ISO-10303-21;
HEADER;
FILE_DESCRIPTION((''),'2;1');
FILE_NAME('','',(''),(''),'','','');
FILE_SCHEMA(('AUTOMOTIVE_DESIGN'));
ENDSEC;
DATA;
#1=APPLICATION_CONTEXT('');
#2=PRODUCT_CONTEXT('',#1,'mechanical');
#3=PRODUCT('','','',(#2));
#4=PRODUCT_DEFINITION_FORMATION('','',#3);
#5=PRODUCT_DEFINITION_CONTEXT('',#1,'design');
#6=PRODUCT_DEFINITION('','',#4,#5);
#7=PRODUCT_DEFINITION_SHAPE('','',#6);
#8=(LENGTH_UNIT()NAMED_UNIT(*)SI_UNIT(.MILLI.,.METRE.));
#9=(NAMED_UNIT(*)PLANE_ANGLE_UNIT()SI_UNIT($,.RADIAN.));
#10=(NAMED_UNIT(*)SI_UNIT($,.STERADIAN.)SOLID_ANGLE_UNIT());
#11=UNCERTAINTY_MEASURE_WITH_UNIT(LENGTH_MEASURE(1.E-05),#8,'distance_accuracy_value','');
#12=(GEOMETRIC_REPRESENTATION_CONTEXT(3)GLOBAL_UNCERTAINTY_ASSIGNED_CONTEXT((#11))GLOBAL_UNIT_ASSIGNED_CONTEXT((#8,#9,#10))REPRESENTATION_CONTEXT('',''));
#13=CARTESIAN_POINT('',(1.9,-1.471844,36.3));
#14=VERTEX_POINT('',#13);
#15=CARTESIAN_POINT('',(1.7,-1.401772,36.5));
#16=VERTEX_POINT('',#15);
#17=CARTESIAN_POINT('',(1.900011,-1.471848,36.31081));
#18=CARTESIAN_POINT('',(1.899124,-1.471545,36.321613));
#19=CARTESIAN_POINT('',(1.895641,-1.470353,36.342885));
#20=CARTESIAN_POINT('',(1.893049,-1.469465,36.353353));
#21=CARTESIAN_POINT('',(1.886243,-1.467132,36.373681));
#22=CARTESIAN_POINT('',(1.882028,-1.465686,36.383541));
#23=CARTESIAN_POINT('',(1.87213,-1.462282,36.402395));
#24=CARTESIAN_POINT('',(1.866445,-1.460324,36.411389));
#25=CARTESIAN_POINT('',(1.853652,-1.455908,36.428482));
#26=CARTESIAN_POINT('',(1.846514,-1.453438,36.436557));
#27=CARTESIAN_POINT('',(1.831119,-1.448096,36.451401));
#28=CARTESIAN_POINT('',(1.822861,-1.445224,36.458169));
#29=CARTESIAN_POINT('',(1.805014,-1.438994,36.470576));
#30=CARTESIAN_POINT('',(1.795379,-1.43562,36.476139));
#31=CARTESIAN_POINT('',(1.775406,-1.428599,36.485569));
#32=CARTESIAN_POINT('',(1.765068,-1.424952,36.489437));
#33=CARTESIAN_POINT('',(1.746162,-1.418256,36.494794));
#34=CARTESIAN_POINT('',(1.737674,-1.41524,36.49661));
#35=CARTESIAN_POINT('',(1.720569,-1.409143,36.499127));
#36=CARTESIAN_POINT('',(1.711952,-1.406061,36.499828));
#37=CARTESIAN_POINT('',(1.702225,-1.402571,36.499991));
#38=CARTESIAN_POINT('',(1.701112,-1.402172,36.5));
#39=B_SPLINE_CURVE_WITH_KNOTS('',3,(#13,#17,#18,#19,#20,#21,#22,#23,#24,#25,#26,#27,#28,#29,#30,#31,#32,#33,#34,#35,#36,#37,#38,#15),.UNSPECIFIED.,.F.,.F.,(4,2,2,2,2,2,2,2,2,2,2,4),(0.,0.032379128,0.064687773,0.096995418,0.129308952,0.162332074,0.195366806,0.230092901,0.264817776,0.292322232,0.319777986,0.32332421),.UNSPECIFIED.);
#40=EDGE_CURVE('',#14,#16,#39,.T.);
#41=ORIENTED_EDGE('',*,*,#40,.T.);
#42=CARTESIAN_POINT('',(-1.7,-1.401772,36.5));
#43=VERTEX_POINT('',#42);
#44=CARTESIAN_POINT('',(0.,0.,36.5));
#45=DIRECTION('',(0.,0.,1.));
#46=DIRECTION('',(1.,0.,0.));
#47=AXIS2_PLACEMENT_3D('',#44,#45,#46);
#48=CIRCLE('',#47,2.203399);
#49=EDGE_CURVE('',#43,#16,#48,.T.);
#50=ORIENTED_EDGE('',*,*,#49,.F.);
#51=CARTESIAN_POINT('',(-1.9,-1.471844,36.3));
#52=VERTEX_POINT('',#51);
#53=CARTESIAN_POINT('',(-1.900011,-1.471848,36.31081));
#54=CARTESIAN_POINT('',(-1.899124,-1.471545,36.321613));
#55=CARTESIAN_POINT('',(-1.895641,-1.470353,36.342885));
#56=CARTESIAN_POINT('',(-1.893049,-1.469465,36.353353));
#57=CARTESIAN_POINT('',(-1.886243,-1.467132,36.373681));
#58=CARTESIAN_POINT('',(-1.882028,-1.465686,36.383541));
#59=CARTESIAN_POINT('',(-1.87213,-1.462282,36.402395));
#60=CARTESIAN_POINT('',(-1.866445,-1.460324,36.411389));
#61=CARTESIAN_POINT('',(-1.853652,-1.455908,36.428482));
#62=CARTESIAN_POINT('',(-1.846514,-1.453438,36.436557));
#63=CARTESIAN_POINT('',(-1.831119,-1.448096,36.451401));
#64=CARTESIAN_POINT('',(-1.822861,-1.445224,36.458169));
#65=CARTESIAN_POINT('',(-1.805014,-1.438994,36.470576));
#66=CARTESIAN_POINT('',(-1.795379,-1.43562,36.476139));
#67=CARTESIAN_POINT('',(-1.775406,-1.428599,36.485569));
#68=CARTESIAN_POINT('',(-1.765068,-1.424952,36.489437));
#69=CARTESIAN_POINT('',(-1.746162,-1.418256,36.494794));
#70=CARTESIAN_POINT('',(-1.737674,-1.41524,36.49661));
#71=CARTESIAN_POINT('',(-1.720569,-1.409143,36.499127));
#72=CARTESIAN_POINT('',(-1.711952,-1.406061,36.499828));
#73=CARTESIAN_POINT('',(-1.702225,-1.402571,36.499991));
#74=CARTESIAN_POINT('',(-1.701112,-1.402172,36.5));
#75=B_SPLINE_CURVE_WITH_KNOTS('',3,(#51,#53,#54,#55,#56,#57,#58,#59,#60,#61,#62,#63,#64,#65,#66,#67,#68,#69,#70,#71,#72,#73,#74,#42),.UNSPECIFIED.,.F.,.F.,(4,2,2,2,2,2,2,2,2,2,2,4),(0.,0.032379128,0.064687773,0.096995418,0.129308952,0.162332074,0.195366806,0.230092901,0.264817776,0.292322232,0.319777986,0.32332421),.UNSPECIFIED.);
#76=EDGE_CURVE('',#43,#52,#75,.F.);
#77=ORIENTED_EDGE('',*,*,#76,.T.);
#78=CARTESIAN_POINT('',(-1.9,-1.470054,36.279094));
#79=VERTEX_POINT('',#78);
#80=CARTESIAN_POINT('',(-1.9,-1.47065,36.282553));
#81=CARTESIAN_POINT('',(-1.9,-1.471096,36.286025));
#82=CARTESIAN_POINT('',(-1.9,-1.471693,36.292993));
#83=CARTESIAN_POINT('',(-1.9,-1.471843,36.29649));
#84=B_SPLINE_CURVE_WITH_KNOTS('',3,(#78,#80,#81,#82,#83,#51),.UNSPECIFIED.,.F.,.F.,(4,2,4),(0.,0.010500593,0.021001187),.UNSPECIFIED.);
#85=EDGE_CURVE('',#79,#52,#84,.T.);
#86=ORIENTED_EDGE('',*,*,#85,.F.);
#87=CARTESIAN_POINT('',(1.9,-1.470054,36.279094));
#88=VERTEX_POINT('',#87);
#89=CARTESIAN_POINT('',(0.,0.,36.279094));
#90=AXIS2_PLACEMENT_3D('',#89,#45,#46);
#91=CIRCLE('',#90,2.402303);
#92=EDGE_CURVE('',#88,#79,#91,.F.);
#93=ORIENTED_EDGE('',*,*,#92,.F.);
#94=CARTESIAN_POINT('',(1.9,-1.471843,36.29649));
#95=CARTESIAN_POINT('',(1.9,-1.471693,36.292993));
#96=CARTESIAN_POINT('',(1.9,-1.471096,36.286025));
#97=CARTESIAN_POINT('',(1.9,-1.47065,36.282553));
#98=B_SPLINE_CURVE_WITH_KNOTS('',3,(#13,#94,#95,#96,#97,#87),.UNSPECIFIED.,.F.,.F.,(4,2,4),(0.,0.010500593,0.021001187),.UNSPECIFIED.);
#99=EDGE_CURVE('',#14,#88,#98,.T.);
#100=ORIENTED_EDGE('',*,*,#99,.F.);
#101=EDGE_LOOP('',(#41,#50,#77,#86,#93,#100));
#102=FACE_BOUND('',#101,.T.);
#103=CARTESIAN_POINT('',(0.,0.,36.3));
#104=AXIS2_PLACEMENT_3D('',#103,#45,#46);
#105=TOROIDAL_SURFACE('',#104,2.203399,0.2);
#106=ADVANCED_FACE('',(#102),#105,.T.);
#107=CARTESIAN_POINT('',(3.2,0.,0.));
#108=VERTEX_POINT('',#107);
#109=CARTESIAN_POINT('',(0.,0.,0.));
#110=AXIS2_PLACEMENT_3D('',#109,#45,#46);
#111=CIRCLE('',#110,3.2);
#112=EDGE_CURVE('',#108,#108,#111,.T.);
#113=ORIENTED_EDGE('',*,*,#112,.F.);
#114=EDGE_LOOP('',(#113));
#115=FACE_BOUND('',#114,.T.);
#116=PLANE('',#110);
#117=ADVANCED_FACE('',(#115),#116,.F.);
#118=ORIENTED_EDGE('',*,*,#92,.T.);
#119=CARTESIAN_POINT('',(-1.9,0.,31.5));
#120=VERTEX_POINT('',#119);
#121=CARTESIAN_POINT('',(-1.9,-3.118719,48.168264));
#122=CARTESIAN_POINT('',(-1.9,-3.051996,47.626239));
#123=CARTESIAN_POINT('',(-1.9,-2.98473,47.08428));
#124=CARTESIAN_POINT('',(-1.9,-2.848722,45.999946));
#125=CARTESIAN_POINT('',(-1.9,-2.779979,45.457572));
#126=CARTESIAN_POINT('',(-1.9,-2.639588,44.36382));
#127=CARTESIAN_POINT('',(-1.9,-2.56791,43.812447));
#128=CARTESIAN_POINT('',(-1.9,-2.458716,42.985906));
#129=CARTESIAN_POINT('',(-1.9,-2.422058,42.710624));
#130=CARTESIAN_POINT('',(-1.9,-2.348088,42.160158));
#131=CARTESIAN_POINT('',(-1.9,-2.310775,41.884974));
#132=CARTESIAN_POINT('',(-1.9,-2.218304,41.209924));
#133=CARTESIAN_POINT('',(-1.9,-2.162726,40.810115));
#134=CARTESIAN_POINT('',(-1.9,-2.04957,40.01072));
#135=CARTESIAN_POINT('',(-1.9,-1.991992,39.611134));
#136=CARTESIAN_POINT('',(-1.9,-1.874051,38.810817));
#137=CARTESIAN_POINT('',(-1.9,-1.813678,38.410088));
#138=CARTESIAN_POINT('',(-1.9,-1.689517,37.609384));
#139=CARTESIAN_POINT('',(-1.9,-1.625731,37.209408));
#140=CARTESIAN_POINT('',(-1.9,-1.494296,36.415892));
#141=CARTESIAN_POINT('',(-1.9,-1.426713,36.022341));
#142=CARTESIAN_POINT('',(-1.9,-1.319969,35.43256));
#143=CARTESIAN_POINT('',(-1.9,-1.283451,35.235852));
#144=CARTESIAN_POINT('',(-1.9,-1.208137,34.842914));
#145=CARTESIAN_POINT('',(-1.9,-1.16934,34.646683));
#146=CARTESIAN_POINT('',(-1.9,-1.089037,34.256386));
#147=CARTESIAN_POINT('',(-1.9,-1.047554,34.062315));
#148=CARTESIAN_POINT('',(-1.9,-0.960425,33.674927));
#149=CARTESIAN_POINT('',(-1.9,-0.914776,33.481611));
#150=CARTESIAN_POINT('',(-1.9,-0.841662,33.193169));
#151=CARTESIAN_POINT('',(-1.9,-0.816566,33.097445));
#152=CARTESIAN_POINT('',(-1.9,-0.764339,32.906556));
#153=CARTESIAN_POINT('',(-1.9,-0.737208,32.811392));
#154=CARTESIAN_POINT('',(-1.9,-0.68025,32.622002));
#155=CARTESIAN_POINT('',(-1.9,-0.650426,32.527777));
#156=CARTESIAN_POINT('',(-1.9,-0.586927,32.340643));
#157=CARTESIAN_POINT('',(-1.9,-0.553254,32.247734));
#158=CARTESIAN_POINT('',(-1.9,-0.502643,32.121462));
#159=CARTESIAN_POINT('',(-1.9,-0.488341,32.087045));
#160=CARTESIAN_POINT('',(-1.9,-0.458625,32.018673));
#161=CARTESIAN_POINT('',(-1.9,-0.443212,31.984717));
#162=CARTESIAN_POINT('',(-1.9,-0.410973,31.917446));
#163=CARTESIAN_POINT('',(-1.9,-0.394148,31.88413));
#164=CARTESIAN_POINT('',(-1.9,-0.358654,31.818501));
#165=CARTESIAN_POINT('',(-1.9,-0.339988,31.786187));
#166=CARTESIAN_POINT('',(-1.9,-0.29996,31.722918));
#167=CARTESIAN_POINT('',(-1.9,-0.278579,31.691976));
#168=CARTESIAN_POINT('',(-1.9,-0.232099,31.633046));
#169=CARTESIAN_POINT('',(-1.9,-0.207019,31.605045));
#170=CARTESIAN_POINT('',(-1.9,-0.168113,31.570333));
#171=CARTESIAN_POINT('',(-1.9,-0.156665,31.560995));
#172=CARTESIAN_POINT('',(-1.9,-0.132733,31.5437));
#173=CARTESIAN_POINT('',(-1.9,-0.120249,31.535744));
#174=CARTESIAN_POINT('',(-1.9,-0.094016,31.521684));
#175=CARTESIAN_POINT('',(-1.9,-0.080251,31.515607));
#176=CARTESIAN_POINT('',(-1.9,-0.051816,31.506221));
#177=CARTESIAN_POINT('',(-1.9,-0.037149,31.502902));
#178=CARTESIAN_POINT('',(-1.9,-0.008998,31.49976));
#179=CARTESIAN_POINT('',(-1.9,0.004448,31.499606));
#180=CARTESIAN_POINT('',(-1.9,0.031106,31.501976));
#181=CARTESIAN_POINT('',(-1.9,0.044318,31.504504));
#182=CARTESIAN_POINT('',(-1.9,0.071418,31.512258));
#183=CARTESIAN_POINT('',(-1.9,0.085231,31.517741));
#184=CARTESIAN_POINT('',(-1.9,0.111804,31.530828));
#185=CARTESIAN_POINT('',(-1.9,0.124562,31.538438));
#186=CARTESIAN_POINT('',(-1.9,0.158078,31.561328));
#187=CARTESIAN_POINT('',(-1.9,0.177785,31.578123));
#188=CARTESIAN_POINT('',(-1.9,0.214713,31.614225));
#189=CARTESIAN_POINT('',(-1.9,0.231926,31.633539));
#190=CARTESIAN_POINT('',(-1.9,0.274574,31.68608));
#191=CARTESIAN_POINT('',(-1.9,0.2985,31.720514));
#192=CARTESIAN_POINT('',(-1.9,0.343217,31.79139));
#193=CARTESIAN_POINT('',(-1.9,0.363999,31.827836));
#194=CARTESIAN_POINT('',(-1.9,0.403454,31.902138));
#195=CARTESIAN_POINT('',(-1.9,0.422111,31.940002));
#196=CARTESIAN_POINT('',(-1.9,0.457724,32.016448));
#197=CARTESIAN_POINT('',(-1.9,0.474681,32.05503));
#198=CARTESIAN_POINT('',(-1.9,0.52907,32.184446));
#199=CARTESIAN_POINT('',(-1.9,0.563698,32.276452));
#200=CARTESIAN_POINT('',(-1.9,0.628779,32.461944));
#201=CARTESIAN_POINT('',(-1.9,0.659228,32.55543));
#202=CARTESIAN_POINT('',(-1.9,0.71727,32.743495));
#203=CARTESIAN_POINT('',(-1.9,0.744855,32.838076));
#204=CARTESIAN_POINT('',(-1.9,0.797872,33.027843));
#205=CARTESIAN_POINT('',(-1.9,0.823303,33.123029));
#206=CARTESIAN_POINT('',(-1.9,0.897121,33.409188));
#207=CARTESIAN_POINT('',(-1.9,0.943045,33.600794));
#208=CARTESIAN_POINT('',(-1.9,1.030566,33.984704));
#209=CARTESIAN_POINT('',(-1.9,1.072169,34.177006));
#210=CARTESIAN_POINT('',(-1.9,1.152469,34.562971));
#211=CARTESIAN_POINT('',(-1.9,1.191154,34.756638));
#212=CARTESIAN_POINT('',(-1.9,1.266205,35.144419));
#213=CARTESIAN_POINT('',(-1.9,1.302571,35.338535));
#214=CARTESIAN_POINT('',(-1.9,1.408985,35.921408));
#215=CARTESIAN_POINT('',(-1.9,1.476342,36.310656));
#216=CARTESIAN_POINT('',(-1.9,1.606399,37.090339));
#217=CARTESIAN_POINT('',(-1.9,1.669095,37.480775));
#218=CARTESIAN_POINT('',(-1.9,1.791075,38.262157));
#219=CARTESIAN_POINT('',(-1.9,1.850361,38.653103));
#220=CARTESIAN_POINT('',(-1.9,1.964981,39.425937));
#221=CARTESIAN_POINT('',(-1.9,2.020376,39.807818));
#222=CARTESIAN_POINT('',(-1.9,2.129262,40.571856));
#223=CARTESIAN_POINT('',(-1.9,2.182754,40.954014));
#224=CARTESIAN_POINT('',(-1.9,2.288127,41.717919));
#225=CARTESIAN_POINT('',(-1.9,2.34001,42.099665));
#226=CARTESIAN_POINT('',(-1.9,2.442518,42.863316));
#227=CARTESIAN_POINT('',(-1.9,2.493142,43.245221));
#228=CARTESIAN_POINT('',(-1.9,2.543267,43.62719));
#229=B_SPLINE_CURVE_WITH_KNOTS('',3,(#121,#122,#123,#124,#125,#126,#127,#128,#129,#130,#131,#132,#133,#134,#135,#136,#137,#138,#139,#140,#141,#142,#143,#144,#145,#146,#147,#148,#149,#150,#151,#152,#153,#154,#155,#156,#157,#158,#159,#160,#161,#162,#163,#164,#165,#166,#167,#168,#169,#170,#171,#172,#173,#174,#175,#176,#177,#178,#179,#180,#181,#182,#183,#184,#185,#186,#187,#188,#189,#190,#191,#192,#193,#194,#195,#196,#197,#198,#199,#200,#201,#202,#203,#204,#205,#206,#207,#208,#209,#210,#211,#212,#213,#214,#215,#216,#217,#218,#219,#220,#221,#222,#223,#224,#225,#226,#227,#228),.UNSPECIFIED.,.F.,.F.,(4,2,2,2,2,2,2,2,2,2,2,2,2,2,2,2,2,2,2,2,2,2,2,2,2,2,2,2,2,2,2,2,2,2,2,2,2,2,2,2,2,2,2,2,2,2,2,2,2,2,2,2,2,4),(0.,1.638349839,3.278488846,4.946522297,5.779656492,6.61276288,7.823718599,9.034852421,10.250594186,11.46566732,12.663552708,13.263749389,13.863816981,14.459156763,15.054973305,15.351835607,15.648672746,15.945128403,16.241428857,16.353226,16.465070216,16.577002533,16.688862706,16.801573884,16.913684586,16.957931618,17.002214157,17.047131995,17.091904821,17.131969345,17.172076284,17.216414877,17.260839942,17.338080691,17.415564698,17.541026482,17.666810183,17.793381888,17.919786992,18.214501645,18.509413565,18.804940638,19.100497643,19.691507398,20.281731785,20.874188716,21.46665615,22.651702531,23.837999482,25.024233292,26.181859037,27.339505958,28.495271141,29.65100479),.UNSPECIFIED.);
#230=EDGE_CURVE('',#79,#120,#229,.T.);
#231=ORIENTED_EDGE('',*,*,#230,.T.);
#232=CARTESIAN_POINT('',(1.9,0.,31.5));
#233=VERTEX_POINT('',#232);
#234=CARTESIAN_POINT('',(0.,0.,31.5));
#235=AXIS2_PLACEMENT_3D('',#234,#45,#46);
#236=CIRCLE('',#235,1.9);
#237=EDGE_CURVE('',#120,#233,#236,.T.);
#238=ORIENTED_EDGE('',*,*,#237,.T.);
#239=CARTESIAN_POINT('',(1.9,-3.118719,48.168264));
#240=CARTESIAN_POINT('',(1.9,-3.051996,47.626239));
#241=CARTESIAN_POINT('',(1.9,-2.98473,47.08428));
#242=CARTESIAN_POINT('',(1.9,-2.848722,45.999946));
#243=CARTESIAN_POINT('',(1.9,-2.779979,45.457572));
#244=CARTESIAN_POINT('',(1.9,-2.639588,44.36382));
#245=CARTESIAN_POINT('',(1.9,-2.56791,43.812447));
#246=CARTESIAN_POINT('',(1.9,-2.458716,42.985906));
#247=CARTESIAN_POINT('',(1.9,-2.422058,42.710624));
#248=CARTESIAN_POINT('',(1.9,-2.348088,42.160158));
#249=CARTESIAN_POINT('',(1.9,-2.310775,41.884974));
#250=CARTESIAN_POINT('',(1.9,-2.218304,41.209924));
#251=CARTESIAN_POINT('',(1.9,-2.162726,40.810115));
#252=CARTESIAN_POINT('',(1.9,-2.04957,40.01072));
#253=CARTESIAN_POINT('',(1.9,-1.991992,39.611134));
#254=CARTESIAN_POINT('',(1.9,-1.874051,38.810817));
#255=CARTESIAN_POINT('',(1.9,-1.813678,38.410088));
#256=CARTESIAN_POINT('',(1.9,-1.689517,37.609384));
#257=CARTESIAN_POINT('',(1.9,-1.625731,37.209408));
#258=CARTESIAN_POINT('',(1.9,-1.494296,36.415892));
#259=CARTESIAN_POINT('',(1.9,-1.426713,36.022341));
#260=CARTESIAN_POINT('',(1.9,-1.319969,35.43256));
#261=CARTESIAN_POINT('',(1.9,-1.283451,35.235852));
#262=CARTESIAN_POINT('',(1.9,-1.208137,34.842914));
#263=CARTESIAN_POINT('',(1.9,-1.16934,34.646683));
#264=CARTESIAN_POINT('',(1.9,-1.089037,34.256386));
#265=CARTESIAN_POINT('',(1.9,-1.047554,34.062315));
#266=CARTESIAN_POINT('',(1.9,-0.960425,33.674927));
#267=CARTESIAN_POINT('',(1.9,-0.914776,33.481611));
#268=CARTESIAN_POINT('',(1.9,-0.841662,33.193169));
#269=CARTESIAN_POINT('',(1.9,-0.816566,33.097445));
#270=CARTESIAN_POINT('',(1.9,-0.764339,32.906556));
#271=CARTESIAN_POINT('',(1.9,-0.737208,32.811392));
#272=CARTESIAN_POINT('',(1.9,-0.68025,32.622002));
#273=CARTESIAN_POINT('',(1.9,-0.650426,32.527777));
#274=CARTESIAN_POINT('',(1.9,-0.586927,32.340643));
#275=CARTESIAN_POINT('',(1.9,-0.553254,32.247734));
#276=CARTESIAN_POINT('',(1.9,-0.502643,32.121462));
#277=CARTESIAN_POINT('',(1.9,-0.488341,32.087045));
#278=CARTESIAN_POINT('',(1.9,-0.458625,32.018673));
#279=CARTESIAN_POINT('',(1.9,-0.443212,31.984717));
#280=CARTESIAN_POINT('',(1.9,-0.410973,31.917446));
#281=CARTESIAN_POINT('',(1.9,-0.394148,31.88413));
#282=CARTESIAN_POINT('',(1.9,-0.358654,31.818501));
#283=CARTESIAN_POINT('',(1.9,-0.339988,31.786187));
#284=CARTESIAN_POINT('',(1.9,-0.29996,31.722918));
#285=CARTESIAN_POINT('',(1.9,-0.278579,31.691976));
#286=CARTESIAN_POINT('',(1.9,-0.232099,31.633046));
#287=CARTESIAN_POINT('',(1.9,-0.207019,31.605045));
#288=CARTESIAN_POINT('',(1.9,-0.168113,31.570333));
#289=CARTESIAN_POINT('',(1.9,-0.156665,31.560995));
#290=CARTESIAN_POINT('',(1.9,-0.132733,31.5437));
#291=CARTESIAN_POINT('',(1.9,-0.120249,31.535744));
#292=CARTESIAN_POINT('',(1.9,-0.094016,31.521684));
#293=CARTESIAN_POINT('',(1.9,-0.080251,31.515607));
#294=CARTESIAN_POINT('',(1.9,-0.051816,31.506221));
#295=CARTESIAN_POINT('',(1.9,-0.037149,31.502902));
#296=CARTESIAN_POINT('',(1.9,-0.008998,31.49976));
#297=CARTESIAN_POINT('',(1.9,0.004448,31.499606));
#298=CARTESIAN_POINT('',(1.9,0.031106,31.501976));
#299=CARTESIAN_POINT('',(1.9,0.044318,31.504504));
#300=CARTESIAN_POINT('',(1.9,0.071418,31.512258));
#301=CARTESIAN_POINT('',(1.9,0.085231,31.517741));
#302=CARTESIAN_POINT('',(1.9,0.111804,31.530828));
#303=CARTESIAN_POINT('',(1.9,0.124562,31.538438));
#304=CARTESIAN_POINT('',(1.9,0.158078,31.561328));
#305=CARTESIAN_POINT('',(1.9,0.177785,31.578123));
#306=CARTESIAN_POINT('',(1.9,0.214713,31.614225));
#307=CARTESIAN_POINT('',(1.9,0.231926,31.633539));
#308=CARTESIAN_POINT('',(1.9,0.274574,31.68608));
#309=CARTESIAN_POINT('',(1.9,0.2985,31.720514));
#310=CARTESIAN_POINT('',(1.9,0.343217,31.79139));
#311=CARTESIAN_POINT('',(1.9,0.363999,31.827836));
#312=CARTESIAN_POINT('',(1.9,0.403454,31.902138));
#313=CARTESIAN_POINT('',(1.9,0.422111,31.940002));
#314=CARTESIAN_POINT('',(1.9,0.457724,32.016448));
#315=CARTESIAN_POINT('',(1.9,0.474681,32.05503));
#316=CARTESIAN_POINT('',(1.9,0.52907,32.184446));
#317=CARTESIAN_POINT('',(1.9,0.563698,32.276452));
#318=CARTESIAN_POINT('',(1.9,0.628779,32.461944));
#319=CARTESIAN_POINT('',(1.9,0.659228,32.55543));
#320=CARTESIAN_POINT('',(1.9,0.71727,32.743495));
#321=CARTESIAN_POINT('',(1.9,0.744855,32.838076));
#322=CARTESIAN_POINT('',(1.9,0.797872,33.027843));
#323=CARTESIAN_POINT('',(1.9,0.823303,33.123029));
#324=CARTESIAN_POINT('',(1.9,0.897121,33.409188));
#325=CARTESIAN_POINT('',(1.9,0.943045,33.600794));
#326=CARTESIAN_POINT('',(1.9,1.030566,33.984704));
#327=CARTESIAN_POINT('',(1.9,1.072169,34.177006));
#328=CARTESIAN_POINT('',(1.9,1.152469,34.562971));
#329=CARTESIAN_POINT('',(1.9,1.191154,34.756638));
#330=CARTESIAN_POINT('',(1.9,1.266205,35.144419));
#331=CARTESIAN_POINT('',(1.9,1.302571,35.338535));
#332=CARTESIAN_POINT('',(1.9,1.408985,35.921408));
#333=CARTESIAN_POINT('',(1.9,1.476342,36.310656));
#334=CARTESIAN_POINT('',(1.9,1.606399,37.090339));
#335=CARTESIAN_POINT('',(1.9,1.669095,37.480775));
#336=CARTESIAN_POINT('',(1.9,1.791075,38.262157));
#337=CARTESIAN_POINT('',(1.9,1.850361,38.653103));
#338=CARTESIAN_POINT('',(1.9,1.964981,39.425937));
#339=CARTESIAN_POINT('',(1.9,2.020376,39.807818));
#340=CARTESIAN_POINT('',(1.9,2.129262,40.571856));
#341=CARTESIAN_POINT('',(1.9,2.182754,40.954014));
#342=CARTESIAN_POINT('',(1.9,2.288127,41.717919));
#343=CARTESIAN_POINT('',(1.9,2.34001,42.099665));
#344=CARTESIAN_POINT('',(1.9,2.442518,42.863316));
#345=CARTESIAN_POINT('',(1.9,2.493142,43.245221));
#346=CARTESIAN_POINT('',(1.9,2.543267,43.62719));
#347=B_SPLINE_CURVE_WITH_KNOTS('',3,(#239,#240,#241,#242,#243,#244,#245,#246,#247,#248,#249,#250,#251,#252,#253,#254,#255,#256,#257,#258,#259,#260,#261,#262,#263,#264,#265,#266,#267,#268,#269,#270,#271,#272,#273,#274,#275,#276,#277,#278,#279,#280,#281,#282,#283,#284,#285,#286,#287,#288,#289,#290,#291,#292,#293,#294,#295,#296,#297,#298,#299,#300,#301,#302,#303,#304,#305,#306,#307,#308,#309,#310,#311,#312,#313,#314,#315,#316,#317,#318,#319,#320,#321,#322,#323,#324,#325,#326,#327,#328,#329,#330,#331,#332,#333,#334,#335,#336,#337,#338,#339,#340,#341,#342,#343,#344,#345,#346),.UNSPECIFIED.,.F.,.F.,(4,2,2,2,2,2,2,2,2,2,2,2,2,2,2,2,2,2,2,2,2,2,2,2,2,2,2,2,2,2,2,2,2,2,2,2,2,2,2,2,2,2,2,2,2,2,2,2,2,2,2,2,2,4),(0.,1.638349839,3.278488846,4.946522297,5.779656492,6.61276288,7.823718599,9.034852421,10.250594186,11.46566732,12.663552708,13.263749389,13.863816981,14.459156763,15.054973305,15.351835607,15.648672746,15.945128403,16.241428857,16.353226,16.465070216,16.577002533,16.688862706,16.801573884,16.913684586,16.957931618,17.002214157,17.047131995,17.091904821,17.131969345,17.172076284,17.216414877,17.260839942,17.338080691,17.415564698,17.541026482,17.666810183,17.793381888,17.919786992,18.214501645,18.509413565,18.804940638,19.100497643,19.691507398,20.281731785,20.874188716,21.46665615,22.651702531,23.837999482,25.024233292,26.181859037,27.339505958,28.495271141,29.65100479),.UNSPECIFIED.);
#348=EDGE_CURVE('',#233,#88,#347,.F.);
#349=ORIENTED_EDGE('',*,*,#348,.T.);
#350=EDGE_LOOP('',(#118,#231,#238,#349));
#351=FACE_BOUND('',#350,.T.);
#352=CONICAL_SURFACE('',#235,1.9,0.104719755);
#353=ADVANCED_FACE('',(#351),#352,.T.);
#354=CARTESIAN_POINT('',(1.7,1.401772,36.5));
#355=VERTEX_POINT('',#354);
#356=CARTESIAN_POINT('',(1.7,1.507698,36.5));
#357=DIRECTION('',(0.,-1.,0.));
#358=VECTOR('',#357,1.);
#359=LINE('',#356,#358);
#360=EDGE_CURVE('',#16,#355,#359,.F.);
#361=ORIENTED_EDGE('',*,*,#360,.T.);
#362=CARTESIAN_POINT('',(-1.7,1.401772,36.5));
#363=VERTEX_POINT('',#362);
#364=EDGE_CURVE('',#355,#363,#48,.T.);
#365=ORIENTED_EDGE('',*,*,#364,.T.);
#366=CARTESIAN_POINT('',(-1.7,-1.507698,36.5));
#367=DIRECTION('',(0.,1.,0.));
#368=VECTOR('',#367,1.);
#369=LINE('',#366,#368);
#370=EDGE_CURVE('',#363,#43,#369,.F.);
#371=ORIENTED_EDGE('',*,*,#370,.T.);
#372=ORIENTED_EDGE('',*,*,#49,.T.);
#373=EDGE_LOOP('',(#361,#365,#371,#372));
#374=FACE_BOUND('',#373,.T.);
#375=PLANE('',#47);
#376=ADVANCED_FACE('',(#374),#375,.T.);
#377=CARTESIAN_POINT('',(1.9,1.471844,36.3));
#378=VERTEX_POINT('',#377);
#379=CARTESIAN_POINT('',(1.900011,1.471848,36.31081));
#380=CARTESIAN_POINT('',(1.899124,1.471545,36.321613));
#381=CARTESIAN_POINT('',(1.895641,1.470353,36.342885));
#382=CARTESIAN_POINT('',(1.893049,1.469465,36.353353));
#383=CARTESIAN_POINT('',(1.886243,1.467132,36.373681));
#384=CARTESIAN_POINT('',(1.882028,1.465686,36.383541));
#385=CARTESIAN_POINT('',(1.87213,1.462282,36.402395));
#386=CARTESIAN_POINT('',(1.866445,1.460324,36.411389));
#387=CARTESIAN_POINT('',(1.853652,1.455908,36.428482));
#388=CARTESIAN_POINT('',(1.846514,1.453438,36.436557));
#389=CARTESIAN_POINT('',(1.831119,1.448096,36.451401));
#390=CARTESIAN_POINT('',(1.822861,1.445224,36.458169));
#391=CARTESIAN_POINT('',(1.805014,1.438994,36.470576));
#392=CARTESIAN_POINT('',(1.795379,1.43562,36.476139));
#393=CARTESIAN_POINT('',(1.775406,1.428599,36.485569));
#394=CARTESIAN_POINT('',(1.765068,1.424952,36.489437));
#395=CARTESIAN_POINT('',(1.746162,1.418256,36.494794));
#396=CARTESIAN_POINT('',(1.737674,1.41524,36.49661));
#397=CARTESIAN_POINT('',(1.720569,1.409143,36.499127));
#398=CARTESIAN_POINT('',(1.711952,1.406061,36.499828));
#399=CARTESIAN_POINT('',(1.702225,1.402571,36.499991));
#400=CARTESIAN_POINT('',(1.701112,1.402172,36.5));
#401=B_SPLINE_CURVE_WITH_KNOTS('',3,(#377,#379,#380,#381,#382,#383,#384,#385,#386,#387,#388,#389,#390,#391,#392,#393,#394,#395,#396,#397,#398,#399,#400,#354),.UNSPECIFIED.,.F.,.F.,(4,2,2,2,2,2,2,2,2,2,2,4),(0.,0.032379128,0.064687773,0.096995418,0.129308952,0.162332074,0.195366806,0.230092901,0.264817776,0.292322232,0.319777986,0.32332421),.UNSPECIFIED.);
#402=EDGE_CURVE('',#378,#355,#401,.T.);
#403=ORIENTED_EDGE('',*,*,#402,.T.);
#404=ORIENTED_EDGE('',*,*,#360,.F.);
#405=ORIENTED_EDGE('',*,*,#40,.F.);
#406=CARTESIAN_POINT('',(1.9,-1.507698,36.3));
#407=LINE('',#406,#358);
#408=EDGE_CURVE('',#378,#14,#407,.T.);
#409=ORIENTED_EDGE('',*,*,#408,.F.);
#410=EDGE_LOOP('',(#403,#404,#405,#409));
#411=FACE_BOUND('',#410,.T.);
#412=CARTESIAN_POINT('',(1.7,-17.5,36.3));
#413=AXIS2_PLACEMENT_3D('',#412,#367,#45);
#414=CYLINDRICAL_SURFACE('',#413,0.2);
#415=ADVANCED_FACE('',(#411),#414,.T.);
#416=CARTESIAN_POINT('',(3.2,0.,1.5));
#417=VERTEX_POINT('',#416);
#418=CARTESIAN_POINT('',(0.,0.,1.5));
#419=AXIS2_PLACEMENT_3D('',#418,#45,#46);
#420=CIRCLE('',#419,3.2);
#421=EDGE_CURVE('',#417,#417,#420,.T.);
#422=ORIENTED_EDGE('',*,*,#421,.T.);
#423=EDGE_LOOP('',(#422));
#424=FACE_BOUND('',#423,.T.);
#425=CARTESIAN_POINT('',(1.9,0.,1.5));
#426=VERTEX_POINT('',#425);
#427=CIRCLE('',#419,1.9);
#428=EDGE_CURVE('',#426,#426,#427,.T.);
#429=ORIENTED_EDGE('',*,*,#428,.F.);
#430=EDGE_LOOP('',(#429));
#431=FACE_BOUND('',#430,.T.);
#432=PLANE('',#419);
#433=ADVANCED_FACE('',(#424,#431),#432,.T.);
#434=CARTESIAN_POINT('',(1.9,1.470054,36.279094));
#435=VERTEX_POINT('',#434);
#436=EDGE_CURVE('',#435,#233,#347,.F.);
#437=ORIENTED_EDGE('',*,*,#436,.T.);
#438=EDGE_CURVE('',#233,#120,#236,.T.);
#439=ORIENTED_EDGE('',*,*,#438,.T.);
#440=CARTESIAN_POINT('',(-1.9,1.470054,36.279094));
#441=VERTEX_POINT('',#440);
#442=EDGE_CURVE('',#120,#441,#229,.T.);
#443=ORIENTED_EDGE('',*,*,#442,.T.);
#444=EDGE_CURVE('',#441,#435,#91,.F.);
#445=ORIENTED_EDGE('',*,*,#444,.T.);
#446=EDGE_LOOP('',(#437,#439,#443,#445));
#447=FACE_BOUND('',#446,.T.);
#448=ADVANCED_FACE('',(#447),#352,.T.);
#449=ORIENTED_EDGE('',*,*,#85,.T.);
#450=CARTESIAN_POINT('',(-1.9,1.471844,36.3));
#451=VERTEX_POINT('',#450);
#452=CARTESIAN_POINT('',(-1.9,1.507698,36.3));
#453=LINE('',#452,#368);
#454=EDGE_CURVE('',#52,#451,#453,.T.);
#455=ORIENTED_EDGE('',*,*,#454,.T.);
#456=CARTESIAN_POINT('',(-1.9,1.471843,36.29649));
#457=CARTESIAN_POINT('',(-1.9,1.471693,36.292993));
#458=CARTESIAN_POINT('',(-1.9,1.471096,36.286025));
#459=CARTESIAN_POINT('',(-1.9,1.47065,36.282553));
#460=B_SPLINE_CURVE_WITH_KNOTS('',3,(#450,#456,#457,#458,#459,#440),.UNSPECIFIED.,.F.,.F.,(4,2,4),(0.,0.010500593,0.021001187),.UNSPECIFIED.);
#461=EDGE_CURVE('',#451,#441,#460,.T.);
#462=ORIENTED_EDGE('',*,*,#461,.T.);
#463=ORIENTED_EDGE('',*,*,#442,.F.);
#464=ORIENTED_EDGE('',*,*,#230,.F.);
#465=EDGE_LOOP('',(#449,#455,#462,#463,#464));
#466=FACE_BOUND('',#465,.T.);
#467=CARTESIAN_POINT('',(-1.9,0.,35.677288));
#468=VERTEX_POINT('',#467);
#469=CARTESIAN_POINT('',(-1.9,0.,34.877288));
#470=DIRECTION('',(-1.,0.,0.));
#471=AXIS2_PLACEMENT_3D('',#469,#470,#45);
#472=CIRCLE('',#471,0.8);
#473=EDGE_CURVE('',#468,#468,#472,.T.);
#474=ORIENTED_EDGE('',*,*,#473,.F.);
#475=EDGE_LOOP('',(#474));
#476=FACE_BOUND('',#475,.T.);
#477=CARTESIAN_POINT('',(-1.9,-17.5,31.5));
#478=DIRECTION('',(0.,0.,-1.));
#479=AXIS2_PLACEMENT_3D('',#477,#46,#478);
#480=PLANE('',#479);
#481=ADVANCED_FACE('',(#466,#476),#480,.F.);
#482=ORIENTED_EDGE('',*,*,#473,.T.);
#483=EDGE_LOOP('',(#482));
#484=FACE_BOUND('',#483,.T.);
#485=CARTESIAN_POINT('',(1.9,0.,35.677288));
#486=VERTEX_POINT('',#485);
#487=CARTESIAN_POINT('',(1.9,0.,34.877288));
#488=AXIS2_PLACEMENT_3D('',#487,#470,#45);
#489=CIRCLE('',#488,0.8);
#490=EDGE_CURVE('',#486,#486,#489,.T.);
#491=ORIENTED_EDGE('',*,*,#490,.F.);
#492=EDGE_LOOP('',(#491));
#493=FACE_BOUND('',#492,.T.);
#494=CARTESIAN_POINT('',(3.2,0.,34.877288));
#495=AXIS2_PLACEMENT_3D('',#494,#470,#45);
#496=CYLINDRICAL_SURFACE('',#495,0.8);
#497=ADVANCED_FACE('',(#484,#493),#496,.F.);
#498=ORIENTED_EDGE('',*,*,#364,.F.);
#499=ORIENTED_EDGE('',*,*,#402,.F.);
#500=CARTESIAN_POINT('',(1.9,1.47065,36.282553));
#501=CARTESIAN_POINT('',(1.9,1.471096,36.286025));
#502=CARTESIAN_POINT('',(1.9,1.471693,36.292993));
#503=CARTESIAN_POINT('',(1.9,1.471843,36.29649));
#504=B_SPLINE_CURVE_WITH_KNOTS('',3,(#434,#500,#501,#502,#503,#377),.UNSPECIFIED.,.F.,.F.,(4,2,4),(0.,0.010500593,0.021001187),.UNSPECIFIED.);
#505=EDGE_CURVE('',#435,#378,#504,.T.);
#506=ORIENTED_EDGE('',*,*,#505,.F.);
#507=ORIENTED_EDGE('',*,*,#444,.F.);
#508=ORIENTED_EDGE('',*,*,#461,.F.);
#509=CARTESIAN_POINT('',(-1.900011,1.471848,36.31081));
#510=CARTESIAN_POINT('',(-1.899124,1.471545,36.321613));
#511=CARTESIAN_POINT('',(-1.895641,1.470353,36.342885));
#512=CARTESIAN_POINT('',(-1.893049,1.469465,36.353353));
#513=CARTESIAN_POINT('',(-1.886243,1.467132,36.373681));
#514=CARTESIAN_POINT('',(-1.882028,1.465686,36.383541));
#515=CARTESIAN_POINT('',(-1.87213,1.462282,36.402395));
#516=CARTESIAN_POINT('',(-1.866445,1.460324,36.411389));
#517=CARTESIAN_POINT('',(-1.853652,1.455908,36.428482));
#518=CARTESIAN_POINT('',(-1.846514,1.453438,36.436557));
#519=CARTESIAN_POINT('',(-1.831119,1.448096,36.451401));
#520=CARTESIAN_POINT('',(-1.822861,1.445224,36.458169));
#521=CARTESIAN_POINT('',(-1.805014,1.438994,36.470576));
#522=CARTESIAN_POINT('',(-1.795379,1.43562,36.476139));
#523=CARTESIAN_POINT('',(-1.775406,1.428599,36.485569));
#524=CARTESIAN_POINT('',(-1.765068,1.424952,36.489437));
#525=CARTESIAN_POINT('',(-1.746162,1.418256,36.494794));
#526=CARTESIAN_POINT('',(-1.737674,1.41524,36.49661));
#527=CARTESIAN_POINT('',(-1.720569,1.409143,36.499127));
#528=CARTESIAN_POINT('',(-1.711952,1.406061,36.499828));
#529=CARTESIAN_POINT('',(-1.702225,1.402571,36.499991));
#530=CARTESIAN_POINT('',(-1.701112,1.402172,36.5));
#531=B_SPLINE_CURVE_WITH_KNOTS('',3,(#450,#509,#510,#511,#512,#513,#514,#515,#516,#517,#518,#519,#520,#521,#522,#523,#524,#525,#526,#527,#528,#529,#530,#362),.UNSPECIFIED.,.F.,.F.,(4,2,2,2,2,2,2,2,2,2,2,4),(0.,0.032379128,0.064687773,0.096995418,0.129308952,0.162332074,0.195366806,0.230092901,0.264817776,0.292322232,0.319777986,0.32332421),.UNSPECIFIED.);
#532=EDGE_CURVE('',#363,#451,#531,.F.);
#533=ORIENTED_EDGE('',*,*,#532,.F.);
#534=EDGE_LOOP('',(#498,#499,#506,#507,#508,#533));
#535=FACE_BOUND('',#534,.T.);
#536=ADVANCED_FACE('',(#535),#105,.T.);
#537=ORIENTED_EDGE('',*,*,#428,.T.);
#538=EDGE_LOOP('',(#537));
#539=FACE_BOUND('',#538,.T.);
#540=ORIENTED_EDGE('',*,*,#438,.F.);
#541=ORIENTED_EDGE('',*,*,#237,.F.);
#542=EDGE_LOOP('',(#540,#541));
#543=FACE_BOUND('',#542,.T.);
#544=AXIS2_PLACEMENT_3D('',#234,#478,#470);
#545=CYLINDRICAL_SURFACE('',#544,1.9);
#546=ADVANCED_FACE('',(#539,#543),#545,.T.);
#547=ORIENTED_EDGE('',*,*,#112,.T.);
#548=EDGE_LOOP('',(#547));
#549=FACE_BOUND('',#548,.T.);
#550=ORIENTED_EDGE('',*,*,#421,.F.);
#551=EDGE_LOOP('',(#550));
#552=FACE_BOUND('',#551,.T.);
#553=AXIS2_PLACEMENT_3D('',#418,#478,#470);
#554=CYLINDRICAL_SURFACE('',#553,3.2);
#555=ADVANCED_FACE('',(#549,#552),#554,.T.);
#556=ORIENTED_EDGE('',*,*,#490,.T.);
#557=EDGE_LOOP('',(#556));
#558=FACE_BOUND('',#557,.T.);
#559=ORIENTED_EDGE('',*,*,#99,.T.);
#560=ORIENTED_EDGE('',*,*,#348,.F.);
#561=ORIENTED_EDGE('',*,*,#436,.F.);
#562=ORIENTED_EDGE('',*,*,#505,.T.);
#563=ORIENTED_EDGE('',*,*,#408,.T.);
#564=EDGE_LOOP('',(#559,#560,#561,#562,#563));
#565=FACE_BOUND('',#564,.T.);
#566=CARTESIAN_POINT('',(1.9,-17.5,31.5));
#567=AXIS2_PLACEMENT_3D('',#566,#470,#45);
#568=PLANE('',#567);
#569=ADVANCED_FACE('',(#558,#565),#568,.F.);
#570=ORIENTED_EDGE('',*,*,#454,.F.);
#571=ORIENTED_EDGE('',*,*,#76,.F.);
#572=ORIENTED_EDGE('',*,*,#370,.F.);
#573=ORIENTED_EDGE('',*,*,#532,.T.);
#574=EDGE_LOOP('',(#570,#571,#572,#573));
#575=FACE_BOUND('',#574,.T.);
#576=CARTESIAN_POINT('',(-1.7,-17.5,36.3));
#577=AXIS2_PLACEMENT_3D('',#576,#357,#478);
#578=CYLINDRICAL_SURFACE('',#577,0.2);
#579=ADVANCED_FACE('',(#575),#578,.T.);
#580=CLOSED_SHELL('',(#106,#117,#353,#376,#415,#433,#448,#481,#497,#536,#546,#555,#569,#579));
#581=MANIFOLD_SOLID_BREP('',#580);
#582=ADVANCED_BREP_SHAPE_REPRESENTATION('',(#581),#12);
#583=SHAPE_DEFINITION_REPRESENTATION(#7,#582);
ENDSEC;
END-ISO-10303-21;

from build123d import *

# Parameters (mm, degrees)
SKETCH_1_R          = 3.2
EXTRUDE_1_DEPTH     = 1.5
SKETCH_2_R          = 1.9
EXTRUDE_2_DEPTH     = 30
SKETCH_4_R          = 1.9
EXTRUDE_3_DEPTH     = 5
EXTRUDE_3_DRAFT     = -6
SKETCH_5_W          = 1.201314004
SKETCH_5_H          = 17.589809259
CUT_EXTRUDE_4_DEPTH = 17.5
SKETCH_6_R          = 0.8
CUT_EXTRUDE_5_DEPTH = 37.993242626
FILLET_1_R          = 0.2


with BuildPart() as part:
    # Эскиз1 → Вытянуть1 (new body)
    with BuildSketch(Plane.XY):
        Circle(SKETCH_1_R)
    extrude(amount=EXTRUDE_1_DEPTH)

    # Эскиз2 → Вытянуть2 (add)
    with BuildSketch(Plane.XY.offset(1.5)):
        Circle(SKETCH_2_R)
    extrude(amount=EXTRUDE_2_DEPTH)


with BuildPart() as extrude_3_tool:
    # Эскиз4 → Вытянуть3 (with draft: the straight prism first)
    with BuildSketch(Plane.XY.offset(31.5)):
        Circle(SKETCH_4_R)
    extrude(amount=EXTRUDE_3_DEPTH)
    # Вытянуть3: the draft: its side faces are tilted about the plane it starts from
    extrude_3_sides = [extrude_3_tool.faces().sort_by_distance(p)[0] for p in [
        (-1.9, 0, 34),
    ]]
    draft(extrude_3_sides, Plane.XY.offset(31.5), EXTRUDE_3_DRAFT)


with BuildPart() as part_1:
    add(part.part)

    # Вытянуть3: add extrude_3_tool
    add(extrude_3_tool.part)

    # Эскиз5 → Вытянуть4 (cut, symmetric)
    with BuildSketch(Plane(origin=(0, 0, 0), x_dir=(1, 0, 0), z_dir=(0, 1, 0))):
        with Locations((2.500657002, -40.29490463)):
            Rectangle(SKETCH_5_W, SKETCH_5_H)
        with Locations((-2.500657002, -40.29490463)):
            Rectangle(SKETCH_5_W, SKETCH_5_H)
    extrude(amount=CUT_EXTRUDE_4_DEPTH, both=True, mode=Mode.SUBTRACT)

    # Эскиз6 → Вытянуть5 (cut, through all)
    with BuildSketch(Plane.ZY.offset(1.9)):
        with Locations((34.877288216, 0)):
            Circle(SKETCH_6_R)
    extrude(amount=-CUT_EXTRUDE_5_DEPTH, mode=Mode.SUBTRACT)

    # Скругление1
    fillet_1_edges = [part_1.edges().sort_by_distance(p)[0] for p in [
        (0, 2.425521176, 36.5),
        (0, -2.425521176, 36.5),
        (1.9, 0, 36.5),
        (-1.9, 0, 36.5),
    ]]
    fillet(fillet_1_edges, radius=FILLET_1_R)


solid = part_1.part
